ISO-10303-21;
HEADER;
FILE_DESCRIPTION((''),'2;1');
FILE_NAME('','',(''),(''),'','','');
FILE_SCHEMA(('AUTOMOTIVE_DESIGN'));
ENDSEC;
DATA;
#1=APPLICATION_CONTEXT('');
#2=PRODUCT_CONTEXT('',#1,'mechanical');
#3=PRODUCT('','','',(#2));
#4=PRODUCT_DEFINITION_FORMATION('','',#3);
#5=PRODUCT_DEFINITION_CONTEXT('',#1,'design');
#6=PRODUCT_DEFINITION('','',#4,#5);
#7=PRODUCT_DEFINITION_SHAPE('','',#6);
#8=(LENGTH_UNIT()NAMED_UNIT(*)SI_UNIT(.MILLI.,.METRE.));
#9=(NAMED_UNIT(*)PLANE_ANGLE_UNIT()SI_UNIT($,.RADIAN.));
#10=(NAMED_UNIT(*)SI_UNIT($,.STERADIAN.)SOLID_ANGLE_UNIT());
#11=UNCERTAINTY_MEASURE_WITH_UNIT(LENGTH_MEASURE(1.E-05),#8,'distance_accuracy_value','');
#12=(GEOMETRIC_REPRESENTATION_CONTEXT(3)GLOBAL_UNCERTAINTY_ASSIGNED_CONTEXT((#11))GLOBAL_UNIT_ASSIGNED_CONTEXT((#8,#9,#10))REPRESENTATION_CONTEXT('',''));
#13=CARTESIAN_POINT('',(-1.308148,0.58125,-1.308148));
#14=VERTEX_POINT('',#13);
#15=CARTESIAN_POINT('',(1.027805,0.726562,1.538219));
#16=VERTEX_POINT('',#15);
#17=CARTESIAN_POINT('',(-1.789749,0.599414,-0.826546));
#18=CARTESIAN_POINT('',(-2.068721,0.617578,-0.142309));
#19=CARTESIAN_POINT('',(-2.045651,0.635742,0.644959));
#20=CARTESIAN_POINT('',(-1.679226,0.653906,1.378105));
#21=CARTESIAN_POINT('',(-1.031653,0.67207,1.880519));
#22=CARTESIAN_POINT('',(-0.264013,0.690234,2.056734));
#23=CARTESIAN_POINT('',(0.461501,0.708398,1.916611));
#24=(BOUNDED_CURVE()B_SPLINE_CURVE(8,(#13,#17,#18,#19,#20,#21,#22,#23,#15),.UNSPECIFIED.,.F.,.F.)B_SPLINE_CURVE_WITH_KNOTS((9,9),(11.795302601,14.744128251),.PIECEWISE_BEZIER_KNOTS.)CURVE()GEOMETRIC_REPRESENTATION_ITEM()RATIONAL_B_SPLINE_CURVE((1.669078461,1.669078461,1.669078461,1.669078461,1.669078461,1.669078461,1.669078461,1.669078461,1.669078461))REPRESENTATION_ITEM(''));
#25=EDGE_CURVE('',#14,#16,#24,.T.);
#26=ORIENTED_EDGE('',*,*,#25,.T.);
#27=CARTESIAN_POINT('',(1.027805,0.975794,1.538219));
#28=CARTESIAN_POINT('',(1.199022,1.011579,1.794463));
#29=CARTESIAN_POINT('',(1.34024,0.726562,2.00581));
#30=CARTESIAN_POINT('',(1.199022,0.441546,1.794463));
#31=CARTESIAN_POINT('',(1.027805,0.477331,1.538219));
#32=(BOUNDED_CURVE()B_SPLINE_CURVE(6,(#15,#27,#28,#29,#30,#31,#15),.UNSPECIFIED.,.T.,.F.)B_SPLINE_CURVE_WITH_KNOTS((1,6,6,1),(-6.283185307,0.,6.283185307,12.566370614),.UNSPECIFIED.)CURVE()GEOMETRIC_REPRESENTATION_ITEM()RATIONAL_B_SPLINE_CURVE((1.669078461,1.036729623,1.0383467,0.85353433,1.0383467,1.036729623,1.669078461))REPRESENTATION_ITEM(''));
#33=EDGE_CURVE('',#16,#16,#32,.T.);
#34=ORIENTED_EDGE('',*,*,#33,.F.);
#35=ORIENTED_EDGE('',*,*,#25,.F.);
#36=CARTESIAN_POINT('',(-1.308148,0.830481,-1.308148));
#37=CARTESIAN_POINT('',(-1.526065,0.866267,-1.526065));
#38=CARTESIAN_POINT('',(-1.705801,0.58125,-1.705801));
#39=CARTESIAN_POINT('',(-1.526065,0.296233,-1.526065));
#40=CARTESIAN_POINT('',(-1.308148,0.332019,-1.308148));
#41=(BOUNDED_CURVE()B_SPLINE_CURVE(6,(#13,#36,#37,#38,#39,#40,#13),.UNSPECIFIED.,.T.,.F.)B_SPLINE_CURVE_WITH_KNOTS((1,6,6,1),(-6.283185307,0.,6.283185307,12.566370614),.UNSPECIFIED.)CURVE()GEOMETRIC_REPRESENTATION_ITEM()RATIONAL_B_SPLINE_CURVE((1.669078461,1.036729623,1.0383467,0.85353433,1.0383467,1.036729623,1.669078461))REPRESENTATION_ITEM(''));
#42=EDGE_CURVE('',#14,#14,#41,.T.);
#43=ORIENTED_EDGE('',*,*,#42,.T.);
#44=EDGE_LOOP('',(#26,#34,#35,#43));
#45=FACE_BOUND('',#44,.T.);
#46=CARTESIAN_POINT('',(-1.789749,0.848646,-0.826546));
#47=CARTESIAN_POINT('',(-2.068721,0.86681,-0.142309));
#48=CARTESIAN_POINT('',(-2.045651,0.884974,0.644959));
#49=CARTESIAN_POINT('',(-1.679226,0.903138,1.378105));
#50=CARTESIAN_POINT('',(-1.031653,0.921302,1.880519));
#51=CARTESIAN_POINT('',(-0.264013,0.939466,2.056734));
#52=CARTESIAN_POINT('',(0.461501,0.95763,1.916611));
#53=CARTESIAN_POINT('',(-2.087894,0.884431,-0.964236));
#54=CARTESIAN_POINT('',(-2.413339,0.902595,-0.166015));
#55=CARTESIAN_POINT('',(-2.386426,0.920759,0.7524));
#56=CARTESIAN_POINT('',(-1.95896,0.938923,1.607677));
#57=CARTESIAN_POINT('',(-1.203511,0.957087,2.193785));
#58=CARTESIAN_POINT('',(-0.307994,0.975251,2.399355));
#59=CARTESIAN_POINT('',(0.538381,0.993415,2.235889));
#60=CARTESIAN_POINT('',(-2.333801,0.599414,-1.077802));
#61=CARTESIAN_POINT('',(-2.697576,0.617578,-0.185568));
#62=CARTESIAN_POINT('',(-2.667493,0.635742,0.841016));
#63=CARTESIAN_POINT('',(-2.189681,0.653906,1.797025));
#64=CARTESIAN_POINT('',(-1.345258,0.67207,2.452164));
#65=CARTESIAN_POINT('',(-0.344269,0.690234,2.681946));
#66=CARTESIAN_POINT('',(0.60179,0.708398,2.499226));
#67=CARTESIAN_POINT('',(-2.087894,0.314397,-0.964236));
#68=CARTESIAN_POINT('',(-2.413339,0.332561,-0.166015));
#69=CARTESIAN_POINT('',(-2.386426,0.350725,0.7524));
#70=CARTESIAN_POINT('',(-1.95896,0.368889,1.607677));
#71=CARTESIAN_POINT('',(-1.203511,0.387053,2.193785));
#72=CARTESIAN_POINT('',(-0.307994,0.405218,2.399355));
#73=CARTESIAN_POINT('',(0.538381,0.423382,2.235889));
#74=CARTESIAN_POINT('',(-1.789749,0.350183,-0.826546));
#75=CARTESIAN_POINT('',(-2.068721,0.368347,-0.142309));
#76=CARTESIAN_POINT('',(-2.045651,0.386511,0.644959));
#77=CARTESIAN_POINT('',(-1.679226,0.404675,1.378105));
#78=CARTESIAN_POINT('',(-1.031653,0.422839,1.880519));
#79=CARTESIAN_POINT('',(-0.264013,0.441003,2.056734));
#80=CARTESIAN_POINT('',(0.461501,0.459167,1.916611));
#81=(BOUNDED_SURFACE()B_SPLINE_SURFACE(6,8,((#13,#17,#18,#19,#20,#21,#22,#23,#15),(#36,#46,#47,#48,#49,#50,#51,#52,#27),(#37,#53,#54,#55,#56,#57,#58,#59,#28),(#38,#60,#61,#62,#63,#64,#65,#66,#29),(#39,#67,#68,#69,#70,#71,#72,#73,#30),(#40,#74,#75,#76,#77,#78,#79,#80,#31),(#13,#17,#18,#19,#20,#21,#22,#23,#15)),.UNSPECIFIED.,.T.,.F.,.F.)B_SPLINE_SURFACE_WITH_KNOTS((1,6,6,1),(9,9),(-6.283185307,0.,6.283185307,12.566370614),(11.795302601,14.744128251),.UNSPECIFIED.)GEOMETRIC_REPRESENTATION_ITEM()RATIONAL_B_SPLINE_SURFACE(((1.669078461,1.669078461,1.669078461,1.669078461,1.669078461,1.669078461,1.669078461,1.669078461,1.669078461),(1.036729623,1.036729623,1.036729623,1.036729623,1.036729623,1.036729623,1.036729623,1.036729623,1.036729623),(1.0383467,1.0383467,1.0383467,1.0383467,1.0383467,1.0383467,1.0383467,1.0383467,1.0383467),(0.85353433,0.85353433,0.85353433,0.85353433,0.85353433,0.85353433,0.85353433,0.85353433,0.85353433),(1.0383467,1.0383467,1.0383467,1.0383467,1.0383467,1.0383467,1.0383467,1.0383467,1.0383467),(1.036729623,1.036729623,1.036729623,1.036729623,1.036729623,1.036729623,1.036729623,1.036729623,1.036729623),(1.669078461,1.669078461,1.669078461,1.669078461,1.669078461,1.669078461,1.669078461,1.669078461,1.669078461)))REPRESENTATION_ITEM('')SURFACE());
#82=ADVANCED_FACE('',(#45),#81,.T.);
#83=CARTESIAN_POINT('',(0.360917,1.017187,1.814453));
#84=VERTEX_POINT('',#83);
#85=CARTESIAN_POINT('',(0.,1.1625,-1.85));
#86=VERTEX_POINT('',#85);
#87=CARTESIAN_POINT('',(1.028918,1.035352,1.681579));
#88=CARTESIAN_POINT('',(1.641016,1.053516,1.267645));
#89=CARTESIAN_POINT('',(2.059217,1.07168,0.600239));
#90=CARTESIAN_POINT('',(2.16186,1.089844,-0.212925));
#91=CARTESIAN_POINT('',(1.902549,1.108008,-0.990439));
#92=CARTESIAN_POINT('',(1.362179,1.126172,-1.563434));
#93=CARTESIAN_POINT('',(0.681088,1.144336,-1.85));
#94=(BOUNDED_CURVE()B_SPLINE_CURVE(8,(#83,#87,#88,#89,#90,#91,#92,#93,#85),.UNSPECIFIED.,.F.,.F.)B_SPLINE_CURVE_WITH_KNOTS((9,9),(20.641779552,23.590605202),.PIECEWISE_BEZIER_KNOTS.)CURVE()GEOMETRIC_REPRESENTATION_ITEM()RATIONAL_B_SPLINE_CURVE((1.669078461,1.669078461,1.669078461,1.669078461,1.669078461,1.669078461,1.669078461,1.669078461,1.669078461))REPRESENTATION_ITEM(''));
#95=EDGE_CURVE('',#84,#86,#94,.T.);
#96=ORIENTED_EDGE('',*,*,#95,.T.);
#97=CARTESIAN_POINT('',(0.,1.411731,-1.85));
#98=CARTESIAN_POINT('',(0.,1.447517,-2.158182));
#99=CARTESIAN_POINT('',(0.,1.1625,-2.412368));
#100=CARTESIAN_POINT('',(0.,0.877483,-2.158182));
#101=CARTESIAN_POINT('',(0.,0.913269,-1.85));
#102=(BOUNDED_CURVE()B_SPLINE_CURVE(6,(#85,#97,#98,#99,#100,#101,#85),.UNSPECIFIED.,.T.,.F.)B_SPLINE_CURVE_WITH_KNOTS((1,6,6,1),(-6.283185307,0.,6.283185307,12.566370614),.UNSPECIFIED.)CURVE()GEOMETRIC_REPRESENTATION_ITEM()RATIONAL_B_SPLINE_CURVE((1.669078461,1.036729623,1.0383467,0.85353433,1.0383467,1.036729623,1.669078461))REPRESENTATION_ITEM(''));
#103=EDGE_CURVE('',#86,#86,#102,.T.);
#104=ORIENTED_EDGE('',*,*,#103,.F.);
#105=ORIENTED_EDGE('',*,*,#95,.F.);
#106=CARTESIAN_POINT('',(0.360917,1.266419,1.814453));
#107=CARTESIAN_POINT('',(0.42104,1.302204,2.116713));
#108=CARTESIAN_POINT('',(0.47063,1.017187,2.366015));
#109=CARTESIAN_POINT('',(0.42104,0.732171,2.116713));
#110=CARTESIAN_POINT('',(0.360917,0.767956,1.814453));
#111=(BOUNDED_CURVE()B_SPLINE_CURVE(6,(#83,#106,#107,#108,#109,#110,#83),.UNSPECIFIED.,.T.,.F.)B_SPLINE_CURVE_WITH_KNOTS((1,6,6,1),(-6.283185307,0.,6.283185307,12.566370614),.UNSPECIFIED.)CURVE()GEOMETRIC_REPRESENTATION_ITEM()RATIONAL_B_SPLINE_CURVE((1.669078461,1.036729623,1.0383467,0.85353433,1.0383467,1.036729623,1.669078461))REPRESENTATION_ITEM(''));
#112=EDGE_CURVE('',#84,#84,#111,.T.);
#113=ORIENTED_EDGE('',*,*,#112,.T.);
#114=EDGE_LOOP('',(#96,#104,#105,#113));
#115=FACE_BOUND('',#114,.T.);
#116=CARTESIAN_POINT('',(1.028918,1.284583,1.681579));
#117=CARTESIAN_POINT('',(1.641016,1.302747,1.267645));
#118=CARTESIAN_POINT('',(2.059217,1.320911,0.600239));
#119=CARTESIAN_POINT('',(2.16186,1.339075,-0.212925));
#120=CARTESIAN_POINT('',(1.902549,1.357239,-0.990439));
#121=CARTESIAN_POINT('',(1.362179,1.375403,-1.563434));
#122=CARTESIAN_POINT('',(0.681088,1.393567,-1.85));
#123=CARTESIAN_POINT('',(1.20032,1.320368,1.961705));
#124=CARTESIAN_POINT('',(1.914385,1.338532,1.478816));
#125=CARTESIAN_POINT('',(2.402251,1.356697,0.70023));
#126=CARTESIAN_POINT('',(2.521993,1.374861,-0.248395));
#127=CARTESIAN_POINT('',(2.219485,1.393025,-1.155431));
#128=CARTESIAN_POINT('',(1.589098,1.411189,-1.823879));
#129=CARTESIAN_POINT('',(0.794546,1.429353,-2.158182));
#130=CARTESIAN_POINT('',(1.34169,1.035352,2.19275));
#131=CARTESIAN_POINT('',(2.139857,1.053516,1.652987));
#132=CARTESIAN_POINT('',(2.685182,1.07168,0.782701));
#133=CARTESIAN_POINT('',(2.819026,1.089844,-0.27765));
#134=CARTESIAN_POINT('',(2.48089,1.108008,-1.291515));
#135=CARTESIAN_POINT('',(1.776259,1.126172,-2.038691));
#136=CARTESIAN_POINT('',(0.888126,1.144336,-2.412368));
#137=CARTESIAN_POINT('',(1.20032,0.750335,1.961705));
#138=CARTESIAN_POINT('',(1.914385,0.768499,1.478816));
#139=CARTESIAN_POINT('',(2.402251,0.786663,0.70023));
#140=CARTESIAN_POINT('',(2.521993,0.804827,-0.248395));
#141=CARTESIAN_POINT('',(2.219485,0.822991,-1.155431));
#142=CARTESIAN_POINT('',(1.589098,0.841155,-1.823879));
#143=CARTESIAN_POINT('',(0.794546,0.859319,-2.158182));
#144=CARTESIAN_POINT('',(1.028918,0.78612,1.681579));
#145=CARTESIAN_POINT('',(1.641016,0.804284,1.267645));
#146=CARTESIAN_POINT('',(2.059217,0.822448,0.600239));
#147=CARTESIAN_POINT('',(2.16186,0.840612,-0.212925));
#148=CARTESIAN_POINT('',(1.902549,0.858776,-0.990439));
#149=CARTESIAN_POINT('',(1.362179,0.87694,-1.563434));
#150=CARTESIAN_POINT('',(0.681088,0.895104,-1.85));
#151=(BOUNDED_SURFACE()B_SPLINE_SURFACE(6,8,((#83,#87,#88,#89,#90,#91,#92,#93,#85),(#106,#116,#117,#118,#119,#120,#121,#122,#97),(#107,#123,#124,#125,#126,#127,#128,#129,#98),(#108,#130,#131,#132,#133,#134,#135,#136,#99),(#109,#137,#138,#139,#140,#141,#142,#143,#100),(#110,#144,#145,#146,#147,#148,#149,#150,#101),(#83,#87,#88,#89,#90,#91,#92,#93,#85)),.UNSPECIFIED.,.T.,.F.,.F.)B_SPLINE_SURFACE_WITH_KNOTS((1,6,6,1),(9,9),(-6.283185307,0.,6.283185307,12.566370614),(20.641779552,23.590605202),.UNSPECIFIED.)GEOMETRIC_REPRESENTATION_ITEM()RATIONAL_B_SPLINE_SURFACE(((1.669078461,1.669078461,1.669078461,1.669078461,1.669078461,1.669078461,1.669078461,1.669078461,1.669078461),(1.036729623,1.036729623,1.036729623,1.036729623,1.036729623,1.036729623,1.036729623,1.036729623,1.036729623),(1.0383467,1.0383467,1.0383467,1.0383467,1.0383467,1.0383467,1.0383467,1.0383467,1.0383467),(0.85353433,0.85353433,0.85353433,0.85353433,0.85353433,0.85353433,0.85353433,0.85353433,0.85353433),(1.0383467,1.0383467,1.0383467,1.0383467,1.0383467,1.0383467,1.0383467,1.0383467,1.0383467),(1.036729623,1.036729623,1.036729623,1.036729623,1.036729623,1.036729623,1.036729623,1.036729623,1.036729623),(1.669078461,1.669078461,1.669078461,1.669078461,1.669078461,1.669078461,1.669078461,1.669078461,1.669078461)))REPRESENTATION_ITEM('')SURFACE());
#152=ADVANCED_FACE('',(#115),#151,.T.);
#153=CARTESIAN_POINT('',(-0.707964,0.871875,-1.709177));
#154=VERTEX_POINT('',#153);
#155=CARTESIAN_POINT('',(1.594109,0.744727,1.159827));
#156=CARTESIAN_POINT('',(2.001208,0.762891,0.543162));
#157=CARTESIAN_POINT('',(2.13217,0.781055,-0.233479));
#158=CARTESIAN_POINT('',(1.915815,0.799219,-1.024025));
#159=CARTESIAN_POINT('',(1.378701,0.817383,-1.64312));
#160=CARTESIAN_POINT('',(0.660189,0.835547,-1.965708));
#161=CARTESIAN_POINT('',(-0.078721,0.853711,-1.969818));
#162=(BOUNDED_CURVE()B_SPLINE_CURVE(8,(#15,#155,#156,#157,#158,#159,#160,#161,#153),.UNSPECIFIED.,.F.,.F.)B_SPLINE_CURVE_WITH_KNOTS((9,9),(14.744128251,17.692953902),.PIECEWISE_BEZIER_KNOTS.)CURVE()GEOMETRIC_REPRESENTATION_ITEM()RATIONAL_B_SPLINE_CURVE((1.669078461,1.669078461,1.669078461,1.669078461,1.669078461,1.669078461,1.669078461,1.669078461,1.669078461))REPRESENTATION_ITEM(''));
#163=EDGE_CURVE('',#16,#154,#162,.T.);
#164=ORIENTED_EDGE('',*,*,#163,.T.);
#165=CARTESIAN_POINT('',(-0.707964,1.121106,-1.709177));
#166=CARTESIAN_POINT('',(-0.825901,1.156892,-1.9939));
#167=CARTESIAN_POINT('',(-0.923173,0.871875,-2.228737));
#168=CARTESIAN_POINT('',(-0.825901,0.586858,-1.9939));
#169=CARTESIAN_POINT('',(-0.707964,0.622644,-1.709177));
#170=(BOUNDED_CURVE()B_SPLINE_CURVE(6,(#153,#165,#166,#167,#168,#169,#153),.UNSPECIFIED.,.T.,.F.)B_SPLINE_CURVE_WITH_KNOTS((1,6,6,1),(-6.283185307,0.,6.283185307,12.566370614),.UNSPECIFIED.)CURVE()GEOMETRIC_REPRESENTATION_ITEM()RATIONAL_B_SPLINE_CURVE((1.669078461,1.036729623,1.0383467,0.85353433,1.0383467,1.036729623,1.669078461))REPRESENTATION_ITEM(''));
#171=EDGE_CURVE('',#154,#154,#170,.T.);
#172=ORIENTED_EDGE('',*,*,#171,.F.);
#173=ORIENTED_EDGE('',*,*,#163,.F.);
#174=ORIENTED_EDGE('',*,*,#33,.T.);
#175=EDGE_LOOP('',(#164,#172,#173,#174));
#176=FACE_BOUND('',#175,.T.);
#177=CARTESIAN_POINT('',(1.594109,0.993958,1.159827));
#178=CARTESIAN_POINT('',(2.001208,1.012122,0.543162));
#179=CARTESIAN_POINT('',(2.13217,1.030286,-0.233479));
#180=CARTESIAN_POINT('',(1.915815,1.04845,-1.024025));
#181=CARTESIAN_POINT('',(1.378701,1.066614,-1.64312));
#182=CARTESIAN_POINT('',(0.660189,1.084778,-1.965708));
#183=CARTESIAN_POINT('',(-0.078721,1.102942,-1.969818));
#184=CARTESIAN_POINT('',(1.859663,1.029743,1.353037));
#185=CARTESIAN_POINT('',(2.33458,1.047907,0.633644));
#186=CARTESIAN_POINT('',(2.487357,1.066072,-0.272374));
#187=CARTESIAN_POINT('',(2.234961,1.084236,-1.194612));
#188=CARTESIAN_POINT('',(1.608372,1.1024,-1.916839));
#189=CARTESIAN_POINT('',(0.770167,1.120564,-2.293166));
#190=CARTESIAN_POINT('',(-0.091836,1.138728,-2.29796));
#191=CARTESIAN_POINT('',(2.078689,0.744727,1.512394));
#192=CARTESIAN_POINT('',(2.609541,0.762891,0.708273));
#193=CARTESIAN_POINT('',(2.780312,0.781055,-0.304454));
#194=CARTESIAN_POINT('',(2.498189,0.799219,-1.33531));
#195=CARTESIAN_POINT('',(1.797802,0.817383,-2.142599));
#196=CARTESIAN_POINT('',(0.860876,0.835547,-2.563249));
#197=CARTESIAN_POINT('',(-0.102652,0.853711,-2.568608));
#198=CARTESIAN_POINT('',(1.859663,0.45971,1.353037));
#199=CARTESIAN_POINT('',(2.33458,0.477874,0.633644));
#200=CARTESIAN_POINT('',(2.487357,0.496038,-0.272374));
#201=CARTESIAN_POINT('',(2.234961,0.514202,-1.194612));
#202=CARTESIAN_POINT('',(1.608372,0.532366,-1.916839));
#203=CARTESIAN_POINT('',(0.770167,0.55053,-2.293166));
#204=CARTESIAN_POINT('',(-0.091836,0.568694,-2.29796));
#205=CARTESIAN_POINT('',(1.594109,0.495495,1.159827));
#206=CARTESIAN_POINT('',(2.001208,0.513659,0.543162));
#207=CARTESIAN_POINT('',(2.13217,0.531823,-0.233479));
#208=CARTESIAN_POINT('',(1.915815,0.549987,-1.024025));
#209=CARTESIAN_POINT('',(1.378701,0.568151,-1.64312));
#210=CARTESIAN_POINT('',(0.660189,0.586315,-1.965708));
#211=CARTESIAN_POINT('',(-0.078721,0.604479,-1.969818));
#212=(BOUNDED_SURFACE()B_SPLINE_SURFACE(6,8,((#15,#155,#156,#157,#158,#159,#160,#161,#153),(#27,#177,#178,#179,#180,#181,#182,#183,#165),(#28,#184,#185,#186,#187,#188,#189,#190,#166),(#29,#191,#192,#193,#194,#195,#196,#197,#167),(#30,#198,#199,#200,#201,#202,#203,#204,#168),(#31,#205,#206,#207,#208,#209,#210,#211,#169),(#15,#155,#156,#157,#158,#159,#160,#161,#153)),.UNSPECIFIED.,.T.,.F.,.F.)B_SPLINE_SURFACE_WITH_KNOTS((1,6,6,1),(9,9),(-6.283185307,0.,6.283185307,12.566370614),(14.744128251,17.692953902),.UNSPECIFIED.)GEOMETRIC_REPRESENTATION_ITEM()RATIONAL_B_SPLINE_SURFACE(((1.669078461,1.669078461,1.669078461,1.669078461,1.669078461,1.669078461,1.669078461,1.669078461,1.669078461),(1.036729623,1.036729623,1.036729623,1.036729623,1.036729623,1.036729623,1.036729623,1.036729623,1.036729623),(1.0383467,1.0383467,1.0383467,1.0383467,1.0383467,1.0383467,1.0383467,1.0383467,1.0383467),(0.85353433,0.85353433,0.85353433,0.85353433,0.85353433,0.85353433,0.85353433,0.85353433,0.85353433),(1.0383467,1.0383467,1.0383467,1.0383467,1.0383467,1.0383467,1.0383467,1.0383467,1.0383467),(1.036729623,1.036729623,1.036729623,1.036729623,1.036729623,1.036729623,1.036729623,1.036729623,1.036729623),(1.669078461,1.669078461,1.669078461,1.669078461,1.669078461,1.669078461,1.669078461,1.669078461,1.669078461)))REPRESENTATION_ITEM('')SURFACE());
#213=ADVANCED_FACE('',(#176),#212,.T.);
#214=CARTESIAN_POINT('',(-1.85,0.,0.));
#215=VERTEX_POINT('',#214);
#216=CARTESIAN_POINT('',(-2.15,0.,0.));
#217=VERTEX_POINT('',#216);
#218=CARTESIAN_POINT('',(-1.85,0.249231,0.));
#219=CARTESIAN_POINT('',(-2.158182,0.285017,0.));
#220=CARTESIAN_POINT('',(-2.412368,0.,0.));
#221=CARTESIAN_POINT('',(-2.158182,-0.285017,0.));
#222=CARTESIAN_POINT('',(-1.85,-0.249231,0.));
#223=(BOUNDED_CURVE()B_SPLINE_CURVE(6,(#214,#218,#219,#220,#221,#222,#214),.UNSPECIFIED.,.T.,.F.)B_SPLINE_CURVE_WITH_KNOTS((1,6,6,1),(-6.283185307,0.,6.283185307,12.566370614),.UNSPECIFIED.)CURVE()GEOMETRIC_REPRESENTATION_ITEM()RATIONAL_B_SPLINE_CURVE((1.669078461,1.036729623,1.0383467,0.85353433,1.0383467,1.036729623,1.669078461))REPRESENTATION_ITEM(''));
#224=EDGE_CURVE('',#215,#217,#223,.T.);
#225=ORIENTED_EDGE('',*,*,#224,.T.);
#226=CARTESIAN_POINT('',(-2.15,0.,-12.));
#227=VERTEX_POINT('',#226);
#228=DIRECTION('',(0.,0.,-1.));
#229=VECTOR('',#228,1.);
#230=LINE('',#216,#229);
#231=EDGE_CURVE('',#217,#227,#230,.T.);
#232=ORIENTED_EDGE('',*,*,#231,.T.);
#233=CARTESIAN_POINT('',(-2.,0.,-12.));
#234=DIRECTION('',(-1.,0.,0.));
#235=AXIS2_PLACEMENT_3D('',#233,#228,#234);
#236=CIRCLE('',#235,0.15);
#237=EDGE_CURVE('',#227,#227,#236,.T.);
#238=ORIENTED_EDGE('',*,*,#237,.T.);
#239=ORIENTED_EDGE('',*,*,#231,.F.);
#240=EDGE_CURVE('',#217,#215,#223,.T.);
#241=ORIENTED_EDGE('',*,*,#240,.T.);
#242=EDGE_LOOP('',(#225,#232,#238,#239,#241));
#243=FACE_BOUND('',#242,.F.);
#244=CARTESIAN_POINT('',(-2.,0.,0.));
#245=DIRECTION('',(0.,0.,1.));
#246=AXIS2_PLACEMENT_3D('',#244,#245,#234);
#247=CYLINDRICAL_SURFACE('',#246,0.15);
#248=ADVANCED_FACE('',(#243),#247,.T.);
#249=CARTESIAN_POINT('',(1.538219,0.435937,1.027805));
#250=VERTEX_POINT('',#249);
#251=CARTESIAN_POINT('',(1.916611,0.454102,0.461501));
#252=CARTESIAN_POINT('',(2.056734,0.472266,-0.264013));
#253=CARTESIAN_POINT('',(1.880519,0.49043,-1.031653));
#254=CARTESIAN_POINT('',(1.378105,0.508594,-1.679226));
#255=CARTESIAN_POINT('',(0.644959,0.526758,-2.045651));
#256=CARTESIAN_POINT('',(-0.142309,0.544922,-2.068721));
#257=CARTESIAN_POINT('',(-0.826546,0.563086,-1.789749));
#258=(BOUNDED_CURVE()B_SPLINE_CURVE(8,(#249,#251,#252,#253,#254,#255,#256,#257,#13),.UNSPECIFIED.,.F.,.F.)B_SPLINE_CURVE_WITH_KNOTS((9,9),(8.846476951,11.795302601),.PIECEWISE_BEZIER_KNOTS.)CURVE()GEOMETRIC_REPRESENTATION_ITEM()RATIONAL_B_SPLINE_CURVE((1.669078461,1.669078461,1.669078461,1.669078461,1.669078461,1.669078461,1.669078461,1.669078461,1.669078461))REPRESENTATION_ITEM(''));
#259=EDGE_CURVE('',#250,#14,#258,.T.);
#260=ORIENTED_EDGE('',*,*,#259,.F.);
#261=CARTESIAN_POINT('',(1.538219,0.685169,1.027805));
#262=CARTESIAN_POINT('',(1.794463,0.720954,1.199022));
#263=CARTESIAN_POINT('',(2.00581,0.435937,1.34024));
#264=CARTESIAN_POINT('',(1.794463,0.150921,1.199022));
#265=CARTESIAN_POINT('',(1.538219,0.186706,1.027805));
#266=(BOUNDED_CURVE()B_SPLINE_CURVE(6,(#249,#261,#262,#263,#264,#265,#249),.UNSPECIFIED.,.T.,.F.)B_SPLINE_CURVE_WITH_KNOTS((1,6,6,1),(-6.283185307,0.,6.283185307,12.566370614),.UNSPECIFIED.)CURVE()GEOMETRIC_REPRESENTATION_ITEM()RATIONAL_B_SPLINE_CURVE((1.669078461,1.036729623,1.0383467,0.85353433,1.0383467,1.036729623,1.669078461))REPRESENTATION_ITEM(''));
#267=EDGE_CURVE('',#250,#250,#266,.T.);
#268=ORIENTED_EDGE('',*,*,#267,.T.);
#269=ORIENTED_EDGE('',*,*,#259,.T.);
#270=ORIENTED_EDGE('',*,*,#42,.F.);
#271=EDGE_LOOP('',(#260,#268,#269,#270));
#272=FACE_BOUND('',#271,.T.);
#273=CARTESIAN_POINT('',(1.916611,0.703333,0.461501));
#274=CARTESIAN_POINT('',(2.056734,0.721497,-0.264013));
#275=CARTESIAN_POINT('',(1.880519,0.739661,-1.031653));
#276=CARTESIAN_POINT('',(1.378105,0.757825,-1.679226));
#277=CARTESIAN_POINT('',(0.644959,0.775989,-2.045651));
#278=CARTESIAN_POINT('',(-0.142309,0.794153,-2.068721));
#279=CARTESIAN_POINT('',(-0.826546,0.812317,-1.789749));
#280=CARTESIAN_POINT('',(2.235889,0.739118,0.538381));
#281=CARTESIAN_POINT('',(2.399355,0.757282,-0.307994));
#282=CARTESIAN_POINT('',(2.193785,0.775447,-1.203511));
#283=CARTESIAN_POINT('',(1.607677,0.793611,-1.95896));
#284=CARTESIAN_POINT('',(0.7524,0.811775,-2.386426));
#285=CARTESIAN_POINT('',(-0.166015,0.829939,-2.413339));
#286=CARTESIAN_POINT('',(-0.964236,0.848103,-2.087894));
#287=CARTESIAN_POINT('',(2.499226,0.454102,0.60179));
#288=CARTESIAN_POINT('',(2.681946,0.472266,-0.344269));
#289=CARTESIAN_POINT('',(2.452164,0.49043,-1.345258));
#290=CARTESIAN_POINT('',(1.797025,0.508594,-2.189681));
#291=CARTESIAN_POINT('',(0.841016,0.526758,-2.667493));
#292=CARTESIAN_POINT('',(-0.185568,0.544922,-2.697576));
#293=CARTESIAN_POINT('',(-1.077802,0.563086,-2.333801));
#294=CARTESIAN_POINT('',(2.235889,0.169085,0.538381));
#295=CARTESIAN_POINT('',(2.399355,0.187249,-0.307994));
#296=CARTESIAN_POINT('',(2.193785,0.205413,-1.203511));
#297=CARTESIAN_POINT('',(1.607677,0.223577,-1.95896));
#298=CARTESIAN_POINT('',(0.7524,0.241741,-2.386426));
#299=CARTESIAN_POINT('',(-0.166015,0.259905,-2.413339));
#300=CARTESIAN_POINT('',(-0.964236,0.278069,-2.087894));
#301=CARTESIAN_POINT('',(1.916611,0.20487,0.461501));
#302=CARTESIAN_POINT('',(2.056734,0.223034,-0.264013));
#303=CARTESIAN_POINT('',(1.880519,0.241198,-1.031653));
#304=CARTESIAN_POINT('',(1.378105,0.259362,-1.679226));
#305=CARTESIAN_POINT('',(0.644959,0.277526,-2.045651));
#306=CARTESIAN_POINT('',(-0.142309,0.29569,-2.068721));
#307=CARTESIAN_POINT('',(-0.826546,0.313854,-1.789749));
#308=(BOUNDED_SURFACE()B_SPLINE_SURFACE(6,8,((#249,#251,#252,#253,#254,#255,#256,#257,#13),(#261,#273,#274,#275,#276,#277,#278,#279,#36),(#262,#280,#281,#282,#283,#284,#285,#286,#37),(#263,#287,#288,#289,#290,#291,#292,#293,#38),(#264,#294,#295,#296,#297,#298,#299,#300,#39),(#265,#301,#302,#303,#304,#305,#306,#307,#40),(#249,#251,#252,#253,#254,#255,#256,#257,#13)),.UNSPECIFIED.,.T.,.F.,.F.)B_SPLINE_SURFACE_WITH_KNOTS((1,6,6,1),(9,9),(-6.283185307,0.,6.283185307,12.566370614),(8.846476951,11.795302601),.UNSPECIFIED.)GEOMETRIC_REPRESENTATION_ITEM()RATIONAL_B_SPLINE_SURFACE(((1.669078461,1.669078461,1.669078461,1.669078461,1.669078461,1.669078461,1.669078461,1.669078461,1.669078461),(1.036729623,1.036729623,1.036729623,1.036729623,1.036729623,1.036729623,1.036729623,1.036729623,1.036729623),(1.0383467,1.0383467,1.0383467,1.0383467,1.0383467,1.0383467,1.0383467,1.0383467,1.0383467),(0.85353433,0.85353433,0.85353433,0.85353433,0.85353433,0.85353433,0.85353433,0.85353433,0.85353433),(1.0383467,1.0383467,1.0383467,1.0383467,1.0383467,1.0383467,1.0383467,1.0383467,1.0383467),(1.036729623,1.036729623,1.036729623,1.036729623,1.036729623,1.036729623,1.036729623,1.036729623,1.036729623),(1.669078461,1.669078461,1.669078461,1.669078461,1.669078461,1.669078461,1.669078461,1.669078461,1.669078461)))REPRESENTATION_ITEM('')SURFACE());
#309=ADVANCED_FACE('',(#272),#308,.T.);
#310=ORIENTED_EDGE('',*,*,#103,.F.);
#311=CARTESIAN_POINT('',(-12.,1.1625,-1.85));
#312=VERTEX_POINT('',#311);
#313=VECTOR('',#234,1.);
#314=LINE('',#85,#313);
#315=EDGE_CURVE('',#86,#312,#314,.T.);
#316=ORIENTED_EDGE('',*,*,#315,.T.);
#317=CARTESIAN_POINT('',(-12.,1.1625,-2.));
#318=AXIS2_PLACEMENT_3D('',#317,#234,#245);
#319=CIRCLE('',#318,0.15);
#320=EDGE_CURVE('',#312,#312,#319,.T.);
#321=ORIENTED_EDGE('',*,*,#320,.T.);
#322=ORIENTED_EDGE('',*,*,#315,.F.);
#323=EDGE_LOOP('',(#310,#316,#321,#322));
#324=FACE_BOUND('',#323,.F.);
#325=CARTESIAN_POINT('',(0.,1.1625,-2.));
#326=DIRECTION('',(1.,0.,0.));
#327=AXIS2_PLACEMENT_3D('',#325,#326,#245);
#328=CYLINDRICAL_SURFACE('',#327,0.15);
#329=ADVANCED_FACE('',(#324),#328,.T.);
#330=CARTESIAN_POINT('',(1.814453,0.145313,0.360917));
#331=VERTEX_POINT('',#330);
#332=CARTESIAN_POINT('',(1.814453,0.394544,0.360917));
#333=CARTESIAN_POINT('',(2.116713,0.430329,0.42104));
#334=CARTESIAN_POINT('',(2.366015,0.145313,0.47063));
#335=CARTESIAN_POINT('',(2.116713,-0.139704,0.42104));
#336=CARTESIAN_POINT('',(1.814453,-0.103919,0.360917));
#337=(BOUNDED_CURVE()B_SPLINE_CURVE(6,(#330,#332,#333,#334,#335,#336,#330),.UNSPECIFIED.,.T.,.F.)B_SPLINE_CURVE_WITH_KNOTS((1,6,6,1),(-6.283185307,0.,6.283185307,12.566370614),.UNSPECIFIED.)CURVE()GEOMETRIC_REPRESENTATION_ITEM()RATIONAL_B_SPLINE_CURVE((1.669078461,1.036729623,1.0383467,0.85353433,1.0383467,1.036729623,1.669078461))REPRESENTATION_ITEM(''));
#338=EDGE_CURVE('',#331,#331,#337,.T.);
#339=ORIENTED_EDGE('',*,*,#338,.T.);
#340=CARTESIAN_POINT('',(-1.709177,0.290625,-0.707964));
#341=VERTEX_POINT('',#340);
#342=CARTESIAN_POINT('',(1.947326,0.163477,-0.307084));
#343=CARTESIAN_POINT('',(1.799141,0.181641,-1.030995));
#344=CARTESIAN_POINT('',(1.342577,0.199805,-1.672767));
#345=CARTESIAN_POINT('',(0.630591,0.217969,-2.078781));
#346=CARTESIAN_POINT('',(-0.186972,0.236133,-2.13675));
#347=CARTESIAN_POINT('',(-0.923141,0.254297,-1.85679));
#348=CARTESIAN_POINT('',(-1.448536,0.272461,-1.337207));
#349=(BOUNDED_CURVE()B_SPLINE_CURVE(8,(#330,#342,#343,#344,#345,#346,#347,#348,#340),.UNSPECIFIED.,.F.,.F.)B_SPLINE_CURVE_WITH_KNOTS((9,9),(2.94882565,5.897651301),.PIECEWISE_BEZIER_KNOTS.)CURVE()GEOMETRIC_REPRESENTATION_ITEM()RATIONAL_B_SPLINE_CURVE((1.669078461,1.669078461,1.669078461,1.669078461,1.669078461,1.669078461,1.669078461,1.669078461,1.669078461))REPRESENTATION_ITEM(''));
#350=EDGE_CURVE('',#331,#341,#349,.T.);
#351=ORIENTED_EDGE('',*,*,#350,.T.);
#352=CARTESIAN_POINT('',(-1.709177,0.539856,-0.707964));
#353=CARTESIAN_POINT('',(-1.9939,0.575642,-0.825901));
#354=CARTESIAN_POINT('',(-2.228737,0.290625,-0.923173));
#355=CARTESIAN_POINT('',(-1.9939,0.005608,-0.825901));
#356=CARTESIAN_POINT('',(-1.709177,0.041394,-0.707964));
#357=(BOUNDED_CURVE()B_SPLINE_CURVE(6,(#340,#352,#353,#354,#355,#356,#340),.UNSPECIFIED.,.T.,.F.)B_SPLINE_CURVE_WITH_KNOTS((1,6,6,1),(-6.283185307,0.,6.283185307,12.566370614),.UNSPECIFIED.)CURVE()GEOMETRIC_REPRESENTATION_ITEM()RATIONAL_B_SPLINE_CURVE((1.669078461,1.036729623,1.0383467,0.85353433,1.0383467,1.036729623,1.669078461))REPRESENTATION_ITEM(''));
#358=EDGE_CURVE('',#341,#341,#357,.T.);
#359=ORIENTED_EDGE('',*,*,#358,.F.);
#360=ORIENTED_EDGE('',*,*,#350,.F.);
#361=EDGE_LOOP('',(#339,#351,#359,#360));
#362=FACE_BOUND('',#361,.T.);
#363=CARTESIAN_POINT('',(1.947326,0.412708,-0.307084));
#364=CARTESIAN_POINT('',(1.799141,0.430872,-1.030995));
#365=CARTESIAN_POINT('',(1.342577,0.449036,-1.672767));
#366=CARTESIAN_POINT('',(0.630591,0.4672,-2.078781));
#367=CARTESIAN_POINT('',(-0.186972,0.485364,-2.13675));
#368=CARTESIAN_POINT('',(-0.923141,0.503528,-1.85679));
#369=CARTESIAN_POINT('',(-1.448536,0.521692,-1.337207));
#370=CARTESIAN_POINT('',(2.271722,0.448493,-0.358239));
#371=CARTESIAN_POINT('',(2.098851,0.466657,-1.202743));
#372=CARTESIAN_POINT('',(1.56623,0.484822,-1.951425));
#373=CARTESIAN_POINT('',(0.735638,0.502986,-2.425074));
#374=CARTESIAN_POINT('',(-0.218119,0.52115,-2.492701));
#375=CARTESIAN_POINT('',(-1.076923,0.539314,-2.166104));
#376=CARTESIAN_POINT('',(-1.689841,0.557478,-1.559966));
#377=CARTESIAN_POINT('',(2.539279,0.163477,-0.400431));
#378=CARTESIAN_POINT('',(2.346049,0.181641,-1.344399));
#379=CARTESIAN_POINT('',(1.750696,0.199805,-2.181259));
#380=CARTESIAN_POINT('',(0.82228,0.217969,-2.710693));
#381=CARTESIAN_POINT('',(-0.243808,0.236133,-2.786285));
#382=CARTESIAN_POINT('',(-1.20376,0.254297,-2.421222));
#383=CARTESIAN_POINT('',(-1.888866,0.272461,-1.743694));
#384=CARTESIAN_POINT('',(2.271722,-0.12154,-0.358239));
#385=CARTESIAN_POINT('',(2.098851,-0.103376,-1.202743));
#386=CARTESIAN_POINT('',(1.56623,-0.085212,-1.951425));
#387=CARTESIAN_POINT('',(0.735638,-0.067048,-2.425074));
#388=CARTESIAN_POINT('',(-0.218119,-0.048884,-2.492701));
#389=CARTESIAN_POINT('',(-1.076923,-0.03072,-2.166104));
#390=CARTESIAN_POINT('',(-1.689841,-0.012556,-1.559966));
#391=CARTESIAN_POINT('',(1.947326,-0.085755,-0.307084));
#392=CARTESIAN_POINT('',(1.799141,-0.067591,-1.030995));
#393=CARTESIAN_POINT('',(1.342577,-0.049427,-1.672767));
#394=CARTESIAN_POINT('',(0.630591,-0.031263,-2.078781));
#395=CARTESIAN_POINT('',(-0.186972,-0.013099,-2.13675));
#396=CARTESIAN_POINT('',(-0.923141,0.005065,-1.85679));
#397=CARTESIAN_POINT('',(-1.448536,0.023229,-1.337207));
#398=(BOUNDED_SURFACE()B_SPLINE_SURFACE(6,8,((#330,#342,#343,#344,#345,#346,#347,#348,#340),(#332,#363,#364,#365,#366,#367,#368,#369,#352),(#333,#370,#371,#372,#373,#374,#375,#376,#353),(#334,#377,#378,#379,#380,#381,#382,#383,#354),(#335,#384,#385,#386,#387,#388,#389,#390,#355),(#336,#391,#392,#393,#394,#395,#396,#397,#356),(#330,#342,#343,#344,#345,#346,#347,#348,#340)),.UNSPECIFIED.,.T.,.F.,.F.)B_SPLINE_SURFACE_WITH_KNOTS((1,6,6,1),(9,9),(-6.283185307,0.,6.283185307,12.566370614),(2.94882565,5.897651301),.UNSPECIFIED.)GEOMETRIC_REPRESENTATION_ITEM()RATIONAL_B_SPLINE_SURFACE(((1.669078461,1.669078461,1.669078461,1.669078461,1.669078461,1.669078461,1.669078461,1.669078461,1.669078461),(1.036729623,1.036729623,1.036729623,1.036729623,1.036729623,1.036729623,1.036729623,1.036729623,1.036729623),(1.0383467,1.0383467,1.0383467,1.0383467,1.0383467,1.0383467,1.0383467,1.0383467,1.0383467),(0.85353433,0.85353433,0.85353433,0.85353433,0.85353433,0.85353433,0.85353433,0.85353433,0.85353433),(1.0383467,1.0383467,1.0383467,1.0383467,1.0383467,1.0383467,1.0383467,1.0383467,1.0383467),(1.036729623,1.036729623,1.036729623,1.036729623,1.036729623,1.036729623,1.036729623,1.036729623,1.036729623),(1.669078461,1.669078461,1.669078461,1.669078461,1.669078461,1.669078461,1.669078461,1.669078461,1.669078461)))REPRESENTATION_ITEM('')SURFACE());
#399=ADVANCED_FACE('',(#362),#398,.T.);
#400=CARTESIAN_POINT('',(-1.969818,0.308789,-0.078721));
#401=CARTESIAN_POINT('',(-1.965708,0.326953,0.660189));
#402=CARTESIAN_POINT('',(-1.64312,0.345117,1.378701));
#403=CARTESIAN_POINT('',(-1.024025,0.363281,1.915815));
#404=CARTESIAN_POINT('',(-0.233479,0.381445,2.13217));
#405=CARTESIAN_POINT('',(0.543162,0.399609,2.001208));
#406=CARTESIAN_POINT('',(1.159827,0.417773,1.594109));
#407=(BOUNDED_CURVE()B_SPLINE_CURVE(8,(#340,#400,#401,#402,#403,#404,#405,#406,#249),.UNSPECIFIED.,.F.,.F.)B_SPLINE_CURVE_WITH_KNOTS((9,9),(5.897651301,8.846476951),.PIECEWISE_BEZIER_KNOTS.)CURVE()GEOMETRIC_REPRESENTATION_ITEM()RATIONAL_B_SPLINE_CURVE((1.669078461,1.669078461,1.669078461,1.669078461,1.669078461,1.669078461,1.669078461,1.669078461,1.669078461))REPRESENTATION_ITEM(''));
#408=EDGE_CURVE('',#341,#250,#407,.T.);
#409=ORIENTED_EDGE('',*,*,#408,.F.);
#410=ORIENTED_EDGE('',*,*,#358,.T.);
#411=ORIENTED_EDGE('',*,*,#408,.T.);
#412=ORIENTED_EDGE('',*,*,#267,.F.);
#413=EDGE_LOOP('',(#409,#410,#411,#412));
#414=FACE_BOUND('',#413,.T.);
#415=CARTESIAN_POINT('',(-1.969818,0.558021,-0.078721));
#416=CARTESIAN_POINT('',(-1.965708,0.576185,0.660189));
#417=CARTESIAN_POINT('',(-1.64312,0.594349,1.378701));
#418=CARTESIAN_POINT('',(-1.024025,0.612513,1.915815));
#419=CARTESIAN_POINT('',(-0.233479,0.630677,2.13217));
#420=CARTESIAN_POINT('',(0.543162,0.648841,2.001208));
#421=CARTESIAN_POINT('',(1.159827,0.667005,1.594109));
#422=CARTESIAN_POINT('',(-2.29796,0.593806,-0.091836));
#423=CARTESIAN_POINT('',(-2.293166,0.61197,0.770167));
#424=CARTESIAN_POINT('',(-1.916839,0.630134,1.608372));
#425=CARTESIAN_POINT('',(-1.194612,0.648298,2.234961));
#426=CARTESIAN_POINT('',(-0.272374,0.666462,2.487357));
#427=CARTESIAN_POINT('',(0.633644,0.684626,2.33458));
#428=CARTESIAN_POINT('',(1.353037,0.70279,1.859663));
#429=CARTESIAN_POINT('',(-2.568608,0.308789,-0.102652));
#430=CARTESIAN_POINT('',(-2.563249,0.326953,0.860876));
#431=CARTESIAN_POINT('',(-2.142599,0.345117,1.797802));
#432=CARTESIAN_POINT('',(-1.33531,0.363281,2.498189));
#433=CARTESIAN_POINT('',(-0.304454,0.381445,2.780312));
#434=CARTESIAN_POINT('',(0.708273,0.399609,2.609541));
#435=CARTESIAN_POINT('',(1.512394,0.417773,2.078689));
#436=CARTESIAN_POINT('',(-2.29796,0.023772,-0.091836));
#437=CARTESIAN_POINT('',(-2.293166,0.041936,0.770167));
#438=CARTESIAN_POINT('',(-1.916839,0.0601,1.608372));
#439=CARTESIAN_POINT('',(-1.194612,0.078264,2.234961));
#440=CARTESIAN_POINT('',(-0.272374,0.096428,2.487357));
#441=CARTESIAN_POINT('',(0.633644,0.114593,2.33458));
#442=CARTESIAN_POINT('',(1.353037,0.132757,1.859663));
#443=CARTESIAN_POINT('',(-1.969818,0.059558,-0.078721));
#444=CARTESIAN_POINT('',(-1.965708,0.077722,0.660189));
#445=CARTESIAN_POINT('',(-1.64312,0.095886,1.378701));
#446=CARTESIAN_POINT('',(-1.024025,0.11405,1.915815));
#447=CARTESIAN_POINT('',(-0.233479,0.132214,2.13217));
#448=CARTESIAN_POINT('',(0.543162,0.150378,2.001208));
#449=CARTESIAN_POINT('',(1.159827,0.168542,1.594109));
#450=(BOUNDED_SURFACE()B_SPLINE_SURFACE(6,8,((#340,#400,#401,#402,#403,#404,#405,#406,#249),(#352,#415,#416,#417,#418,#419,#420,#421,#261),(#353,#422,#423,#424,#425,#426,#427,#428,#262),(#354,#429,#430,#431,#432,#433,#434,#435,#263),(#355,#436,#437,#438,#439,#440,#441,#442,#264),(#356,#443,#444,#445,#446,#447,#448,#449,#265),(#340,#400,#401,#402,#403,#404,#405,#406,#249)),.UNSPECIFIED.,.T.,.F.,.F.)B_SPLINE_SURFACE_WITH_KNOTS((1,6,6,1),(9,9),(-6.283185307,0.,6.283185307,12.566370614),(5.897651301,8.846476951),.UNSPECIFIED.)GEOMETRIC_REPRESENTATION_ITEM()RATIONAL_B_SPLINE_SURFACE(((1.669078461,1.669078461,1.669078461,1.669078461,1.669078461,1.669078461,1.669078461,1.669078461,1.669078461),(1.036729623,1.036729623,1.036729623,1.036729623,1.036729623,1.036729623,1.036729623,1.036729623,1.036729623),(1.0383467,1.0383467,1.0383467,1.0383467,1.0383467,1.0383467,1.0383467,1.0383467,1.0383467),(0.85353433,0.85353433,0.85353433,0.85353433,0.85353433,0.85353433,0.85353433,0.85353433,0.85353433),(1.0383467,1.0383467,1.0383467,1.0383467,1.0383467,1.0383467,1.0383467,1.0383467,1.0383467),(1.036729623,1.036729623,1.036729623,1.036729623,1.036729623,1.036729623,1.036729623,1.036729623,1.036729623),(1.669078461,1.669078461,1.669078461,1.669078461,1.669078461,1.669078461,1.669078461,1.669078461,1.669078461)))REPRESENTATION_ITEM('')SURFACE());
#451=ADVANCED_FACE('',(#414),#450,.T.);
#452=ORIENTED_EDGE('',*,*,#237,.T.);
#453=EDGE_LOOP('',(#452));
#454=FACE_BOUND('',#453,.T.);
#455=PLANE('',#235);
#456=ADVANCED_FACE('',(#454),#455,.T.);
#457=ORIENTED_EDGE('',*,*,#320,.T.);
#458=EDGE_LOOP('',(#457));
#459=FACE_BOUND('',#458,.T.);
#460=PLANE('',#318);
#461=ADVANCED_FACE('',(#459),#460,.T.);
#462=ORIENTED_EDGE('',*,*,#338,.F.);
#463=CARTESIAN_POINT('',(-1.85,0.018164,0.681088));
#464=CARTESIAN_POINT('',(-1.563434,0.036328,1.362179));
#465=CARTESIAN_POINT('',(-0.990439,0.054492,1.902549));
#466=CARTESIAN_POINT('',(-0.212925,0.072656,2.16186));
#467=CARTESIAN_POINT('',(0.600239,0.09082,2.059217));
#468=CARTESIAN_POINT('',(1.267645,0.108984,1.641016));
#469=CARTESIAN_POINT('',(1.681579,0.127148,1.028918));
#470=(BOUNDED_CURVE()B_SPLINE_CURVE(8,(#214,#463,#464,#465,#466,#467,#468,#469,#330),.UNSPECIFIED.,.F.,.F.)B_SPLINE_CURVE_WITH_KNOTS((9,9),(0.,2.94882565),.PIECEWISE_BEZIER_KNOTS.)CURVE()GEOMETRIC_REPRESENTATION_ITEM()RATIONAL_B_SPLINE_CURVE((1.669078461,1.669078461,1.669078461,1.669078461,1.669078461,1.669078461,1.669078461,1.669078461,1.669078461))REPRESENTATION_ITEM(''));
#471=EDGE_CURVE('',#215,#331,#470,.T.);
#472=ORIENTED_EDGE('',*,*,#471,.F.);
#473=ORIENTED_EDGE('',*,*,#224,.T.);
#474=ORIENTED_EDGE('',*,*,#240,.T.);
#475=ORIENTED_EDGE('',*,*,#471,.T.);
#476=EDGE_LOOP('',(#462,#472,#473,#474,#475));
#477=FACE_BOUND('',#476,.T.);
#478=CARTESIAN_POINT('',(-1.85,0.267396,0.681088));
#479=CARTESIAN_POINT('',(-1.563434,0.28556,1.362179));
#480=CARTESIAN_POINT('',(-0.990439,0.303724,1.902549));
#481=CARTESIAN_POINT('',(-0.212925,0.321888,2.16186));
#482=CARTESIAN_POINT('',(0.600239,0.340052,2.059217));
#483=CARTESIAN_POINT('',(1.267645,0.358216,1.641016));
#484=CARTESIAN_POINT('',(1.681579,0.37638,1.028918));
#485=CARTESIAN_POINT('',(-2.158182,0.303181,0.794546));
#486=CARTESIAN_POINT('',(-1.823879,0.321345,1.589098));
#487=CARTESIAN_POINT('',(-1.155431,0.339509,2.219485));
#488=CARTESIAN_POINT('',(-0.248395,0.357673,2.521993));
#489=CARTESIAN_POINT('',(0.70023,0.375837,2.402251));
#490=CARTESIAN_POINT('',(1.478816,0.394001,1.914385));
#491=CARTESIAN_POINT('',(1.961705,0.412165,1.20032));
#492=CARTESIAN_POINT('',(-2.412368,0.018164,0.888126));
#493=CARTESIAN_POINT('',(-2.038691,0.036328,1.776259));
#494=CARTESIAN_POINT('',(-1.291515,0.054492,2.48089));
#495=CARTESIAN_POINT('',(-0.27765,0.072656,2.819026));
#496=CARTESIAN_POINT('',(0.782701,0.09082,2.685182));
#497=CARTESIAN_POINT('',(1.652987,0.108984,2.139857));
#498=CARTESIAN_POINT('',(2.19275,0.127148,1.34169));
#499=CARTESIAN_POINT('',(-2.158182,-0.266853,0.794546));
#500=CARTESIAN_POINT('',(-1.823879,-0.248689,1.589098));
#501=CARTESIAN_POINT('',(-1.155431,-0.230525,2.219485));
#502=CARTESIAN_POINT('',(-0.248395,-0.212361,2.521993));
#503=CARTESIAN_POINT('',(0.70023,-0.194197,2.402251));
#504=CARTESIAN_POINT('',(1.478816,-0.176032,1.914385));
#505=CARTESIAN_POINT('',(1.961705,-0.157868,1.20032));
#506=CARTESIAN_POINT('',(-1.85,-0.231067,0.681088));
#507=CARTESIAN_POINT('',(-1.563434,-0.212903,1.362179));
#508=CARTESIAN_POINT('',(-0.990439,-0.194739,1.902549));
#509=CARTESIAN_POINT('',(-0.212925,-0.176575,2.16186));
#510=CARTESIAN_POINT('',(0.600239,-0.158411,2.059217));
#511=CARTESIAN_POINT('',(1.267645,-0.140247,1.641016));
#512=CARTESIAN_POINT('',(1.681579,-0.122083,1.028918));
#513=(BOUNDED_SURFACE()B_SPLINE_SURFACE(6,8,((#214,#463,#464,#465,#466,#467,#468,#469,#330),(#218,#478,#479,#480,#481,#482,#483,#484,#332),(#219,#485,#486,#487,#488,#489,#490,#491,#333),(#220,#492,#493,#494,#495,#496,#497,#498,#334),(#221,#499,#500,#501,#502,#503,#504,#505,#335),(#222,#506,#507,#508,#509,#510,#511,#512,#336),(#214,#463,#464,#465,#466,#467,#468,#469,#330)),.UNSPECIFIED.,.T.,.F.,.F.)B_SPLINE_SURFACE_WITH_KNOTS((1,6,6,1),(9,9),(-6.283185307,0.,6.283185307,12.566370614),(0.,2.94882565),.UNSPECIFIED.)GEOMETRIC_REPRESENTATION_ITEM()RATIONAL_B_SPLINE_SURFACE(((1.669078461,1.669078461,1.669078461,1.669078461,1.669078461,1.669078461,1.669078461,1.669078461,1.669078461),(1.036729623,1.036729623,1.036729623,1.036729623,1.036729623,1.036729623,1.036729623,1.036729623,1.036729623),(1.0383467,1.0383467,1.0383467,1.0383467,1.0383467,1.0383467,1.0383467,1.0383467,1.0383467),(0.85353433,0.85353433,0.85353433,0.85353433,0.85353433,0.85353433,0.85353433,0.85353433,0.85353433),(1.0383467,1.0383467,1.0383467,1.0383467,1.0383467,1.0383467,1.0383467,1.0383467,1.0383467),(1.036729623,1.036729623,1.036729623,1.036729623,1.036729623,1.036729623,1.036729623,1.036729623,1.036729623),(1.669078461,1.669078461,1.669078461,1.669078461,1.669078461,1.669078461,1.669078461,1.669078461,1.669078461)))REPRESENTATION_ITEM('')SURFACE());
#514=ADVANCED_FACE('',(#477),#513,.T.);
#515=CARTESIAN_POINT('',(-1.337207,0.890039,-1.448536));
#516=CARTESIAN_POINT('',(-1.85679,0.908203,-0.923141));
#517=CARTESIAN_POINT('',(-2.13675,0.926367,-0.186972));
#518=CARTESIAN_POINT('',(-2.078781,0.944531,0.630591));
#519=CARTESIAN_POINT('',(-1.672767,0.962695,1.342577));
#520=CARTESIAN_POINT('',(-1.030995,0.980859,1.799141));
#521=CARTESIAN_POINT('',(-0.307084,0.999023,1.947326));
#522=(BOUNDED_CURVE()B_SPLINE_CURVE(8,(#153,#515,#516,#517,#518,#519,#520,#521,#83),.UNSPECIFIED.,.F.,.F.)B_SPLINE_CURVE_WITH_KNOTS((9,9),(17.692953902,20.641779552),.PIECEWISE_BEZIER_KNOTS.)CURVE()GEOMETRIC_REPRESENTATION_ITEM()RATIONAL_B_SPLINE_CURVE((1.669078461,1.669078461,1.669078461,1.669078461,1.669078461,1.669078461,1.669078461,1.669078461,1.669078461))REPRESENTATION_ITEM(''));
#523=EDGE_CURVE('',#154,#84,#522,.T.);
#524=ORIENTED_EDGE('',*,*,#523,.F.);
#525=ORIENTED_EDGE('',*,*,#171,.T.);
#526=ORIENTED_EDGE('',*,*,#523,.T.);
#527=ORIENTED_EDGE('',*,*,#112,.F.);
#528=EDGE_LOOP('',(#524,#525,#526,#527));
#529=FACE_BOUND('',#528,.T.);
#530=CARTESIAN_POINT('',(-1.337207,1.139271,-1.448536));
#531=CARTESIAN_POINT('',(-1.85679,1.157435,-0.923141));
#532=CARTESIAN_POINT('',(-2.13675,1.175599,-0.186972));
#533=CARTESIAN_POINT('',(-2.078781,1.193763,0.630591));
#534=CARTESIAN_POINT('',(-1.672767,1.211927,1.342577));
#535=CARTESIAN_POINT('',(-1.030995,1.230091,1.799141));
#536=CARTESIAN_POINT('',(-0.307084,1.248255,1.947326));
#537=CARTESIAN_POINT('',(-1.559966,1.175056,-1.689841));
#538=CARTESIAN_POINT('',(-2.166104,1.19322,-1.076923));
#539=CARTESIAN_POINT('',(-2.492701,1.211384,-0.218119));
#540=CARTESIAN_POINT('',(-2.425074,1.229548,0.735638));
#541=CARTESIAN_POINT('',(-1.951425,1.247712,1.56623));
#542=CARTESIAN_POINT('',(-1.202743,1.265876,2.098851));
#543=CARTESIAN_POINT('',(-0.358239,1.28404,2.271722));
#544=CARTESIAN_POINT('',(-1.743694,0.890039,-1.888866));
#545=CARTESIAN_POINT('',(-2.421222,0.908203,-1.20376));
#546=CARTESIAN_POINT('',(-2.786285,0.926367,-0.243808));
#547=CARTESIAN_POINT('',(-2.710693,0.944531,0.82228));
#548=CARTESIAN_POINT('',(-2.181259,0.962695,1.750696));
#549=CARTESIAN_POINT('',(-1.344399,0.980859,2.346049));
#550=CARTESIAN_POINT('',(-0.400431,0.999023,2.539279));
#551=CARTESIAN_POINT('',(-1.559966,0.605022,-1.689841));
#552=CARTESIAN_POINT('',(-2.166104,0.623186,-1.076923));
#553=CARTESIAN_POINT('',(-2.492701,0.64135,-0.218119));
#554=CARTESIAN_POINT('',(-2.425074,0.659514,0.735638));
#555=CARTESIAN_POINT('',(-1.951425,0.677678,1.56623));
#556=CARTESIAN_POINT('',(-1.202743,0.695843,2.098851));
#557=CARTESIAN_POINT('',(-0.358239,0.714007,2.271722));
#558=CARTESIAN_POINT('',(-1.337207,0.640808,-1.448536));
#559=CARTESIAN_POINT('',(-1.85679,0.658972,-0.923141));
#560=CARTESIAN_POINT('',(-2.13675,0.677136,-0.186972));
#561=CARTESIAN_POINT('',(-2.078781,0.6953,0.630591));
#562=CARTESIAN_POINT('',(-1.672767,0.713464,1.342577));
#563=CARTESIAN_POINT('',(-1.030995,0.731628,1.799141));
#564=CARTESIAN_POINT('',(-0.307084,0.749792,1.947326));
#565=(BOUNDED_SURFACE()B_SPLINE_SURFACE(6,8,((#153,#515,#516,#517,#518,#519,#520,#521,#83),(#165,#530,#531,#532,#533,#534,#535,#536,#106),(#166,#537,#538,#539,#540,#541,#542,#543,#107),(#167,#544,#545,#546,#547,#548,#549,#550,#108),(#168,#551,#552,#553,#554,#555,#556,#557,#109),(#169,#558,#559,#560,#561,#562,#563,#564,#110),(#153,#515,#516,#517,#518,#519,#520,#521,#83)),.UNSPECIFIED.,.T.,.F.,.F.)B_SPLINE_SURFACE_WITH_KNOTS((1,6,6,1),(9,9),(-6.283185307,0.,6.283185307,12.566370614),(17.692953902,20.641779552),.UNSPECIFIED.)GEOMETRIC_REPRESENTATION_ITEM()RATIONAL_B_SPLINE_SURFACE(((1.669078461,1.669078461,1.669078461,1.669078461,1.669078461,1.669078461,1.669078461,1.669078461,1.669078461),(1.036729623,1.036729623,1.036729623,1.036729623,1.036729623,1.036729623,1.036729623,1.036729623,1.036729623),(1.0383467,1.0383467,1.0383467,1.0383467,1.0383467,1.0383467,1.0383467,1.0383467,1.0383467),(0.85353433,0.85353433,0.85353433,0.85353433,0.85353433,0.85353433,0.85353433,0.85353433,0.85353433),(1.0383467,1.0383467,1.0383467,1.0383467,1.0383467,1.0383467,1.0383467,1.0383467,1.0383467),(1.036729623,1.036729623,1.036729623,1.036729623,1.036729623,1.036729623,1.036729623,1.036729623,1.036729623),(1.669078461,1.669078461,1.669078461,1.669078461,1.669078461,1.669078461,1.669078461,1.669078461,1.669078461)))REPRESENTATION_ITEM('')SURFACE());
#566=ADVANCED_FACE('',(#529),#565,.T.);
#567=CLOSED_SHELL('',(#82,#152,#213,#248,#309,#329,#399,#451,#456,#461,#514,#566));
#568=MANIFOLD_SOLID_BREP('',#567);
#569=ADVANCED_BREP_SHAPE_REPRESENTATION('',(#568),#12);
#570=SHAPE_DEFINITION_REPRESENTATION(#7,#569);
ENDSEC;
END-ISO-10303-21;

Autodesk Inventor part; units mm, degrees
ref_plane "YZ Plane" through (0, 0, 0) normal (1, 0, 0) x (0, 1, 0)
ref_plane "XZ Plane" through (0, 0, 0) normal (0, 1, 0) x (-1, 0, 0)
ref_plane "XY Plane" through (0, 0, 0) normal (0, 0, 1) x (1, 0, 0)
sketch "スケッチ1" plane through (0, 0, 0) normal (0, 0, 1) x (1, 0, 0)
  circle A0 centre (-2, 0) radius 0.15
  point P0 (0, 0)
  dimension "d0" = 0.3
  dimension "d1" = 2
coil "コイル1" sketch "スケッチ1" operation add axis through (0, -10, 0) along (0, 1, 0) pitch 0.31 turns 3.75 hand right
sketch "スケッチ2" plane through (-2, 0, 0) normal (0, 0, -1) x (-1, 0, 0)
  circle A0 centre (0, 0) radius 0.15 projected
  point P0 (-2, 0)
  point P1 (-0.15, 0)
extrude "押し出し1" add sketch "スケッチ2" along normal blind 12
sketch "スケッチ3" plane through (0, 1.1625, -2) normal (-1, 0, 0) x (0, 0, 1)
  circle A0 centre (0, 0) radius 0.15 projected
  point P0 (2, -1.1625)
  point P1 (0.15, 0)
extrude "押し出し2" add sketch "スケッチ3" along normal blind 12
properties part number "TOS 0.3-4-270ﾟ-3" material "鋼"
